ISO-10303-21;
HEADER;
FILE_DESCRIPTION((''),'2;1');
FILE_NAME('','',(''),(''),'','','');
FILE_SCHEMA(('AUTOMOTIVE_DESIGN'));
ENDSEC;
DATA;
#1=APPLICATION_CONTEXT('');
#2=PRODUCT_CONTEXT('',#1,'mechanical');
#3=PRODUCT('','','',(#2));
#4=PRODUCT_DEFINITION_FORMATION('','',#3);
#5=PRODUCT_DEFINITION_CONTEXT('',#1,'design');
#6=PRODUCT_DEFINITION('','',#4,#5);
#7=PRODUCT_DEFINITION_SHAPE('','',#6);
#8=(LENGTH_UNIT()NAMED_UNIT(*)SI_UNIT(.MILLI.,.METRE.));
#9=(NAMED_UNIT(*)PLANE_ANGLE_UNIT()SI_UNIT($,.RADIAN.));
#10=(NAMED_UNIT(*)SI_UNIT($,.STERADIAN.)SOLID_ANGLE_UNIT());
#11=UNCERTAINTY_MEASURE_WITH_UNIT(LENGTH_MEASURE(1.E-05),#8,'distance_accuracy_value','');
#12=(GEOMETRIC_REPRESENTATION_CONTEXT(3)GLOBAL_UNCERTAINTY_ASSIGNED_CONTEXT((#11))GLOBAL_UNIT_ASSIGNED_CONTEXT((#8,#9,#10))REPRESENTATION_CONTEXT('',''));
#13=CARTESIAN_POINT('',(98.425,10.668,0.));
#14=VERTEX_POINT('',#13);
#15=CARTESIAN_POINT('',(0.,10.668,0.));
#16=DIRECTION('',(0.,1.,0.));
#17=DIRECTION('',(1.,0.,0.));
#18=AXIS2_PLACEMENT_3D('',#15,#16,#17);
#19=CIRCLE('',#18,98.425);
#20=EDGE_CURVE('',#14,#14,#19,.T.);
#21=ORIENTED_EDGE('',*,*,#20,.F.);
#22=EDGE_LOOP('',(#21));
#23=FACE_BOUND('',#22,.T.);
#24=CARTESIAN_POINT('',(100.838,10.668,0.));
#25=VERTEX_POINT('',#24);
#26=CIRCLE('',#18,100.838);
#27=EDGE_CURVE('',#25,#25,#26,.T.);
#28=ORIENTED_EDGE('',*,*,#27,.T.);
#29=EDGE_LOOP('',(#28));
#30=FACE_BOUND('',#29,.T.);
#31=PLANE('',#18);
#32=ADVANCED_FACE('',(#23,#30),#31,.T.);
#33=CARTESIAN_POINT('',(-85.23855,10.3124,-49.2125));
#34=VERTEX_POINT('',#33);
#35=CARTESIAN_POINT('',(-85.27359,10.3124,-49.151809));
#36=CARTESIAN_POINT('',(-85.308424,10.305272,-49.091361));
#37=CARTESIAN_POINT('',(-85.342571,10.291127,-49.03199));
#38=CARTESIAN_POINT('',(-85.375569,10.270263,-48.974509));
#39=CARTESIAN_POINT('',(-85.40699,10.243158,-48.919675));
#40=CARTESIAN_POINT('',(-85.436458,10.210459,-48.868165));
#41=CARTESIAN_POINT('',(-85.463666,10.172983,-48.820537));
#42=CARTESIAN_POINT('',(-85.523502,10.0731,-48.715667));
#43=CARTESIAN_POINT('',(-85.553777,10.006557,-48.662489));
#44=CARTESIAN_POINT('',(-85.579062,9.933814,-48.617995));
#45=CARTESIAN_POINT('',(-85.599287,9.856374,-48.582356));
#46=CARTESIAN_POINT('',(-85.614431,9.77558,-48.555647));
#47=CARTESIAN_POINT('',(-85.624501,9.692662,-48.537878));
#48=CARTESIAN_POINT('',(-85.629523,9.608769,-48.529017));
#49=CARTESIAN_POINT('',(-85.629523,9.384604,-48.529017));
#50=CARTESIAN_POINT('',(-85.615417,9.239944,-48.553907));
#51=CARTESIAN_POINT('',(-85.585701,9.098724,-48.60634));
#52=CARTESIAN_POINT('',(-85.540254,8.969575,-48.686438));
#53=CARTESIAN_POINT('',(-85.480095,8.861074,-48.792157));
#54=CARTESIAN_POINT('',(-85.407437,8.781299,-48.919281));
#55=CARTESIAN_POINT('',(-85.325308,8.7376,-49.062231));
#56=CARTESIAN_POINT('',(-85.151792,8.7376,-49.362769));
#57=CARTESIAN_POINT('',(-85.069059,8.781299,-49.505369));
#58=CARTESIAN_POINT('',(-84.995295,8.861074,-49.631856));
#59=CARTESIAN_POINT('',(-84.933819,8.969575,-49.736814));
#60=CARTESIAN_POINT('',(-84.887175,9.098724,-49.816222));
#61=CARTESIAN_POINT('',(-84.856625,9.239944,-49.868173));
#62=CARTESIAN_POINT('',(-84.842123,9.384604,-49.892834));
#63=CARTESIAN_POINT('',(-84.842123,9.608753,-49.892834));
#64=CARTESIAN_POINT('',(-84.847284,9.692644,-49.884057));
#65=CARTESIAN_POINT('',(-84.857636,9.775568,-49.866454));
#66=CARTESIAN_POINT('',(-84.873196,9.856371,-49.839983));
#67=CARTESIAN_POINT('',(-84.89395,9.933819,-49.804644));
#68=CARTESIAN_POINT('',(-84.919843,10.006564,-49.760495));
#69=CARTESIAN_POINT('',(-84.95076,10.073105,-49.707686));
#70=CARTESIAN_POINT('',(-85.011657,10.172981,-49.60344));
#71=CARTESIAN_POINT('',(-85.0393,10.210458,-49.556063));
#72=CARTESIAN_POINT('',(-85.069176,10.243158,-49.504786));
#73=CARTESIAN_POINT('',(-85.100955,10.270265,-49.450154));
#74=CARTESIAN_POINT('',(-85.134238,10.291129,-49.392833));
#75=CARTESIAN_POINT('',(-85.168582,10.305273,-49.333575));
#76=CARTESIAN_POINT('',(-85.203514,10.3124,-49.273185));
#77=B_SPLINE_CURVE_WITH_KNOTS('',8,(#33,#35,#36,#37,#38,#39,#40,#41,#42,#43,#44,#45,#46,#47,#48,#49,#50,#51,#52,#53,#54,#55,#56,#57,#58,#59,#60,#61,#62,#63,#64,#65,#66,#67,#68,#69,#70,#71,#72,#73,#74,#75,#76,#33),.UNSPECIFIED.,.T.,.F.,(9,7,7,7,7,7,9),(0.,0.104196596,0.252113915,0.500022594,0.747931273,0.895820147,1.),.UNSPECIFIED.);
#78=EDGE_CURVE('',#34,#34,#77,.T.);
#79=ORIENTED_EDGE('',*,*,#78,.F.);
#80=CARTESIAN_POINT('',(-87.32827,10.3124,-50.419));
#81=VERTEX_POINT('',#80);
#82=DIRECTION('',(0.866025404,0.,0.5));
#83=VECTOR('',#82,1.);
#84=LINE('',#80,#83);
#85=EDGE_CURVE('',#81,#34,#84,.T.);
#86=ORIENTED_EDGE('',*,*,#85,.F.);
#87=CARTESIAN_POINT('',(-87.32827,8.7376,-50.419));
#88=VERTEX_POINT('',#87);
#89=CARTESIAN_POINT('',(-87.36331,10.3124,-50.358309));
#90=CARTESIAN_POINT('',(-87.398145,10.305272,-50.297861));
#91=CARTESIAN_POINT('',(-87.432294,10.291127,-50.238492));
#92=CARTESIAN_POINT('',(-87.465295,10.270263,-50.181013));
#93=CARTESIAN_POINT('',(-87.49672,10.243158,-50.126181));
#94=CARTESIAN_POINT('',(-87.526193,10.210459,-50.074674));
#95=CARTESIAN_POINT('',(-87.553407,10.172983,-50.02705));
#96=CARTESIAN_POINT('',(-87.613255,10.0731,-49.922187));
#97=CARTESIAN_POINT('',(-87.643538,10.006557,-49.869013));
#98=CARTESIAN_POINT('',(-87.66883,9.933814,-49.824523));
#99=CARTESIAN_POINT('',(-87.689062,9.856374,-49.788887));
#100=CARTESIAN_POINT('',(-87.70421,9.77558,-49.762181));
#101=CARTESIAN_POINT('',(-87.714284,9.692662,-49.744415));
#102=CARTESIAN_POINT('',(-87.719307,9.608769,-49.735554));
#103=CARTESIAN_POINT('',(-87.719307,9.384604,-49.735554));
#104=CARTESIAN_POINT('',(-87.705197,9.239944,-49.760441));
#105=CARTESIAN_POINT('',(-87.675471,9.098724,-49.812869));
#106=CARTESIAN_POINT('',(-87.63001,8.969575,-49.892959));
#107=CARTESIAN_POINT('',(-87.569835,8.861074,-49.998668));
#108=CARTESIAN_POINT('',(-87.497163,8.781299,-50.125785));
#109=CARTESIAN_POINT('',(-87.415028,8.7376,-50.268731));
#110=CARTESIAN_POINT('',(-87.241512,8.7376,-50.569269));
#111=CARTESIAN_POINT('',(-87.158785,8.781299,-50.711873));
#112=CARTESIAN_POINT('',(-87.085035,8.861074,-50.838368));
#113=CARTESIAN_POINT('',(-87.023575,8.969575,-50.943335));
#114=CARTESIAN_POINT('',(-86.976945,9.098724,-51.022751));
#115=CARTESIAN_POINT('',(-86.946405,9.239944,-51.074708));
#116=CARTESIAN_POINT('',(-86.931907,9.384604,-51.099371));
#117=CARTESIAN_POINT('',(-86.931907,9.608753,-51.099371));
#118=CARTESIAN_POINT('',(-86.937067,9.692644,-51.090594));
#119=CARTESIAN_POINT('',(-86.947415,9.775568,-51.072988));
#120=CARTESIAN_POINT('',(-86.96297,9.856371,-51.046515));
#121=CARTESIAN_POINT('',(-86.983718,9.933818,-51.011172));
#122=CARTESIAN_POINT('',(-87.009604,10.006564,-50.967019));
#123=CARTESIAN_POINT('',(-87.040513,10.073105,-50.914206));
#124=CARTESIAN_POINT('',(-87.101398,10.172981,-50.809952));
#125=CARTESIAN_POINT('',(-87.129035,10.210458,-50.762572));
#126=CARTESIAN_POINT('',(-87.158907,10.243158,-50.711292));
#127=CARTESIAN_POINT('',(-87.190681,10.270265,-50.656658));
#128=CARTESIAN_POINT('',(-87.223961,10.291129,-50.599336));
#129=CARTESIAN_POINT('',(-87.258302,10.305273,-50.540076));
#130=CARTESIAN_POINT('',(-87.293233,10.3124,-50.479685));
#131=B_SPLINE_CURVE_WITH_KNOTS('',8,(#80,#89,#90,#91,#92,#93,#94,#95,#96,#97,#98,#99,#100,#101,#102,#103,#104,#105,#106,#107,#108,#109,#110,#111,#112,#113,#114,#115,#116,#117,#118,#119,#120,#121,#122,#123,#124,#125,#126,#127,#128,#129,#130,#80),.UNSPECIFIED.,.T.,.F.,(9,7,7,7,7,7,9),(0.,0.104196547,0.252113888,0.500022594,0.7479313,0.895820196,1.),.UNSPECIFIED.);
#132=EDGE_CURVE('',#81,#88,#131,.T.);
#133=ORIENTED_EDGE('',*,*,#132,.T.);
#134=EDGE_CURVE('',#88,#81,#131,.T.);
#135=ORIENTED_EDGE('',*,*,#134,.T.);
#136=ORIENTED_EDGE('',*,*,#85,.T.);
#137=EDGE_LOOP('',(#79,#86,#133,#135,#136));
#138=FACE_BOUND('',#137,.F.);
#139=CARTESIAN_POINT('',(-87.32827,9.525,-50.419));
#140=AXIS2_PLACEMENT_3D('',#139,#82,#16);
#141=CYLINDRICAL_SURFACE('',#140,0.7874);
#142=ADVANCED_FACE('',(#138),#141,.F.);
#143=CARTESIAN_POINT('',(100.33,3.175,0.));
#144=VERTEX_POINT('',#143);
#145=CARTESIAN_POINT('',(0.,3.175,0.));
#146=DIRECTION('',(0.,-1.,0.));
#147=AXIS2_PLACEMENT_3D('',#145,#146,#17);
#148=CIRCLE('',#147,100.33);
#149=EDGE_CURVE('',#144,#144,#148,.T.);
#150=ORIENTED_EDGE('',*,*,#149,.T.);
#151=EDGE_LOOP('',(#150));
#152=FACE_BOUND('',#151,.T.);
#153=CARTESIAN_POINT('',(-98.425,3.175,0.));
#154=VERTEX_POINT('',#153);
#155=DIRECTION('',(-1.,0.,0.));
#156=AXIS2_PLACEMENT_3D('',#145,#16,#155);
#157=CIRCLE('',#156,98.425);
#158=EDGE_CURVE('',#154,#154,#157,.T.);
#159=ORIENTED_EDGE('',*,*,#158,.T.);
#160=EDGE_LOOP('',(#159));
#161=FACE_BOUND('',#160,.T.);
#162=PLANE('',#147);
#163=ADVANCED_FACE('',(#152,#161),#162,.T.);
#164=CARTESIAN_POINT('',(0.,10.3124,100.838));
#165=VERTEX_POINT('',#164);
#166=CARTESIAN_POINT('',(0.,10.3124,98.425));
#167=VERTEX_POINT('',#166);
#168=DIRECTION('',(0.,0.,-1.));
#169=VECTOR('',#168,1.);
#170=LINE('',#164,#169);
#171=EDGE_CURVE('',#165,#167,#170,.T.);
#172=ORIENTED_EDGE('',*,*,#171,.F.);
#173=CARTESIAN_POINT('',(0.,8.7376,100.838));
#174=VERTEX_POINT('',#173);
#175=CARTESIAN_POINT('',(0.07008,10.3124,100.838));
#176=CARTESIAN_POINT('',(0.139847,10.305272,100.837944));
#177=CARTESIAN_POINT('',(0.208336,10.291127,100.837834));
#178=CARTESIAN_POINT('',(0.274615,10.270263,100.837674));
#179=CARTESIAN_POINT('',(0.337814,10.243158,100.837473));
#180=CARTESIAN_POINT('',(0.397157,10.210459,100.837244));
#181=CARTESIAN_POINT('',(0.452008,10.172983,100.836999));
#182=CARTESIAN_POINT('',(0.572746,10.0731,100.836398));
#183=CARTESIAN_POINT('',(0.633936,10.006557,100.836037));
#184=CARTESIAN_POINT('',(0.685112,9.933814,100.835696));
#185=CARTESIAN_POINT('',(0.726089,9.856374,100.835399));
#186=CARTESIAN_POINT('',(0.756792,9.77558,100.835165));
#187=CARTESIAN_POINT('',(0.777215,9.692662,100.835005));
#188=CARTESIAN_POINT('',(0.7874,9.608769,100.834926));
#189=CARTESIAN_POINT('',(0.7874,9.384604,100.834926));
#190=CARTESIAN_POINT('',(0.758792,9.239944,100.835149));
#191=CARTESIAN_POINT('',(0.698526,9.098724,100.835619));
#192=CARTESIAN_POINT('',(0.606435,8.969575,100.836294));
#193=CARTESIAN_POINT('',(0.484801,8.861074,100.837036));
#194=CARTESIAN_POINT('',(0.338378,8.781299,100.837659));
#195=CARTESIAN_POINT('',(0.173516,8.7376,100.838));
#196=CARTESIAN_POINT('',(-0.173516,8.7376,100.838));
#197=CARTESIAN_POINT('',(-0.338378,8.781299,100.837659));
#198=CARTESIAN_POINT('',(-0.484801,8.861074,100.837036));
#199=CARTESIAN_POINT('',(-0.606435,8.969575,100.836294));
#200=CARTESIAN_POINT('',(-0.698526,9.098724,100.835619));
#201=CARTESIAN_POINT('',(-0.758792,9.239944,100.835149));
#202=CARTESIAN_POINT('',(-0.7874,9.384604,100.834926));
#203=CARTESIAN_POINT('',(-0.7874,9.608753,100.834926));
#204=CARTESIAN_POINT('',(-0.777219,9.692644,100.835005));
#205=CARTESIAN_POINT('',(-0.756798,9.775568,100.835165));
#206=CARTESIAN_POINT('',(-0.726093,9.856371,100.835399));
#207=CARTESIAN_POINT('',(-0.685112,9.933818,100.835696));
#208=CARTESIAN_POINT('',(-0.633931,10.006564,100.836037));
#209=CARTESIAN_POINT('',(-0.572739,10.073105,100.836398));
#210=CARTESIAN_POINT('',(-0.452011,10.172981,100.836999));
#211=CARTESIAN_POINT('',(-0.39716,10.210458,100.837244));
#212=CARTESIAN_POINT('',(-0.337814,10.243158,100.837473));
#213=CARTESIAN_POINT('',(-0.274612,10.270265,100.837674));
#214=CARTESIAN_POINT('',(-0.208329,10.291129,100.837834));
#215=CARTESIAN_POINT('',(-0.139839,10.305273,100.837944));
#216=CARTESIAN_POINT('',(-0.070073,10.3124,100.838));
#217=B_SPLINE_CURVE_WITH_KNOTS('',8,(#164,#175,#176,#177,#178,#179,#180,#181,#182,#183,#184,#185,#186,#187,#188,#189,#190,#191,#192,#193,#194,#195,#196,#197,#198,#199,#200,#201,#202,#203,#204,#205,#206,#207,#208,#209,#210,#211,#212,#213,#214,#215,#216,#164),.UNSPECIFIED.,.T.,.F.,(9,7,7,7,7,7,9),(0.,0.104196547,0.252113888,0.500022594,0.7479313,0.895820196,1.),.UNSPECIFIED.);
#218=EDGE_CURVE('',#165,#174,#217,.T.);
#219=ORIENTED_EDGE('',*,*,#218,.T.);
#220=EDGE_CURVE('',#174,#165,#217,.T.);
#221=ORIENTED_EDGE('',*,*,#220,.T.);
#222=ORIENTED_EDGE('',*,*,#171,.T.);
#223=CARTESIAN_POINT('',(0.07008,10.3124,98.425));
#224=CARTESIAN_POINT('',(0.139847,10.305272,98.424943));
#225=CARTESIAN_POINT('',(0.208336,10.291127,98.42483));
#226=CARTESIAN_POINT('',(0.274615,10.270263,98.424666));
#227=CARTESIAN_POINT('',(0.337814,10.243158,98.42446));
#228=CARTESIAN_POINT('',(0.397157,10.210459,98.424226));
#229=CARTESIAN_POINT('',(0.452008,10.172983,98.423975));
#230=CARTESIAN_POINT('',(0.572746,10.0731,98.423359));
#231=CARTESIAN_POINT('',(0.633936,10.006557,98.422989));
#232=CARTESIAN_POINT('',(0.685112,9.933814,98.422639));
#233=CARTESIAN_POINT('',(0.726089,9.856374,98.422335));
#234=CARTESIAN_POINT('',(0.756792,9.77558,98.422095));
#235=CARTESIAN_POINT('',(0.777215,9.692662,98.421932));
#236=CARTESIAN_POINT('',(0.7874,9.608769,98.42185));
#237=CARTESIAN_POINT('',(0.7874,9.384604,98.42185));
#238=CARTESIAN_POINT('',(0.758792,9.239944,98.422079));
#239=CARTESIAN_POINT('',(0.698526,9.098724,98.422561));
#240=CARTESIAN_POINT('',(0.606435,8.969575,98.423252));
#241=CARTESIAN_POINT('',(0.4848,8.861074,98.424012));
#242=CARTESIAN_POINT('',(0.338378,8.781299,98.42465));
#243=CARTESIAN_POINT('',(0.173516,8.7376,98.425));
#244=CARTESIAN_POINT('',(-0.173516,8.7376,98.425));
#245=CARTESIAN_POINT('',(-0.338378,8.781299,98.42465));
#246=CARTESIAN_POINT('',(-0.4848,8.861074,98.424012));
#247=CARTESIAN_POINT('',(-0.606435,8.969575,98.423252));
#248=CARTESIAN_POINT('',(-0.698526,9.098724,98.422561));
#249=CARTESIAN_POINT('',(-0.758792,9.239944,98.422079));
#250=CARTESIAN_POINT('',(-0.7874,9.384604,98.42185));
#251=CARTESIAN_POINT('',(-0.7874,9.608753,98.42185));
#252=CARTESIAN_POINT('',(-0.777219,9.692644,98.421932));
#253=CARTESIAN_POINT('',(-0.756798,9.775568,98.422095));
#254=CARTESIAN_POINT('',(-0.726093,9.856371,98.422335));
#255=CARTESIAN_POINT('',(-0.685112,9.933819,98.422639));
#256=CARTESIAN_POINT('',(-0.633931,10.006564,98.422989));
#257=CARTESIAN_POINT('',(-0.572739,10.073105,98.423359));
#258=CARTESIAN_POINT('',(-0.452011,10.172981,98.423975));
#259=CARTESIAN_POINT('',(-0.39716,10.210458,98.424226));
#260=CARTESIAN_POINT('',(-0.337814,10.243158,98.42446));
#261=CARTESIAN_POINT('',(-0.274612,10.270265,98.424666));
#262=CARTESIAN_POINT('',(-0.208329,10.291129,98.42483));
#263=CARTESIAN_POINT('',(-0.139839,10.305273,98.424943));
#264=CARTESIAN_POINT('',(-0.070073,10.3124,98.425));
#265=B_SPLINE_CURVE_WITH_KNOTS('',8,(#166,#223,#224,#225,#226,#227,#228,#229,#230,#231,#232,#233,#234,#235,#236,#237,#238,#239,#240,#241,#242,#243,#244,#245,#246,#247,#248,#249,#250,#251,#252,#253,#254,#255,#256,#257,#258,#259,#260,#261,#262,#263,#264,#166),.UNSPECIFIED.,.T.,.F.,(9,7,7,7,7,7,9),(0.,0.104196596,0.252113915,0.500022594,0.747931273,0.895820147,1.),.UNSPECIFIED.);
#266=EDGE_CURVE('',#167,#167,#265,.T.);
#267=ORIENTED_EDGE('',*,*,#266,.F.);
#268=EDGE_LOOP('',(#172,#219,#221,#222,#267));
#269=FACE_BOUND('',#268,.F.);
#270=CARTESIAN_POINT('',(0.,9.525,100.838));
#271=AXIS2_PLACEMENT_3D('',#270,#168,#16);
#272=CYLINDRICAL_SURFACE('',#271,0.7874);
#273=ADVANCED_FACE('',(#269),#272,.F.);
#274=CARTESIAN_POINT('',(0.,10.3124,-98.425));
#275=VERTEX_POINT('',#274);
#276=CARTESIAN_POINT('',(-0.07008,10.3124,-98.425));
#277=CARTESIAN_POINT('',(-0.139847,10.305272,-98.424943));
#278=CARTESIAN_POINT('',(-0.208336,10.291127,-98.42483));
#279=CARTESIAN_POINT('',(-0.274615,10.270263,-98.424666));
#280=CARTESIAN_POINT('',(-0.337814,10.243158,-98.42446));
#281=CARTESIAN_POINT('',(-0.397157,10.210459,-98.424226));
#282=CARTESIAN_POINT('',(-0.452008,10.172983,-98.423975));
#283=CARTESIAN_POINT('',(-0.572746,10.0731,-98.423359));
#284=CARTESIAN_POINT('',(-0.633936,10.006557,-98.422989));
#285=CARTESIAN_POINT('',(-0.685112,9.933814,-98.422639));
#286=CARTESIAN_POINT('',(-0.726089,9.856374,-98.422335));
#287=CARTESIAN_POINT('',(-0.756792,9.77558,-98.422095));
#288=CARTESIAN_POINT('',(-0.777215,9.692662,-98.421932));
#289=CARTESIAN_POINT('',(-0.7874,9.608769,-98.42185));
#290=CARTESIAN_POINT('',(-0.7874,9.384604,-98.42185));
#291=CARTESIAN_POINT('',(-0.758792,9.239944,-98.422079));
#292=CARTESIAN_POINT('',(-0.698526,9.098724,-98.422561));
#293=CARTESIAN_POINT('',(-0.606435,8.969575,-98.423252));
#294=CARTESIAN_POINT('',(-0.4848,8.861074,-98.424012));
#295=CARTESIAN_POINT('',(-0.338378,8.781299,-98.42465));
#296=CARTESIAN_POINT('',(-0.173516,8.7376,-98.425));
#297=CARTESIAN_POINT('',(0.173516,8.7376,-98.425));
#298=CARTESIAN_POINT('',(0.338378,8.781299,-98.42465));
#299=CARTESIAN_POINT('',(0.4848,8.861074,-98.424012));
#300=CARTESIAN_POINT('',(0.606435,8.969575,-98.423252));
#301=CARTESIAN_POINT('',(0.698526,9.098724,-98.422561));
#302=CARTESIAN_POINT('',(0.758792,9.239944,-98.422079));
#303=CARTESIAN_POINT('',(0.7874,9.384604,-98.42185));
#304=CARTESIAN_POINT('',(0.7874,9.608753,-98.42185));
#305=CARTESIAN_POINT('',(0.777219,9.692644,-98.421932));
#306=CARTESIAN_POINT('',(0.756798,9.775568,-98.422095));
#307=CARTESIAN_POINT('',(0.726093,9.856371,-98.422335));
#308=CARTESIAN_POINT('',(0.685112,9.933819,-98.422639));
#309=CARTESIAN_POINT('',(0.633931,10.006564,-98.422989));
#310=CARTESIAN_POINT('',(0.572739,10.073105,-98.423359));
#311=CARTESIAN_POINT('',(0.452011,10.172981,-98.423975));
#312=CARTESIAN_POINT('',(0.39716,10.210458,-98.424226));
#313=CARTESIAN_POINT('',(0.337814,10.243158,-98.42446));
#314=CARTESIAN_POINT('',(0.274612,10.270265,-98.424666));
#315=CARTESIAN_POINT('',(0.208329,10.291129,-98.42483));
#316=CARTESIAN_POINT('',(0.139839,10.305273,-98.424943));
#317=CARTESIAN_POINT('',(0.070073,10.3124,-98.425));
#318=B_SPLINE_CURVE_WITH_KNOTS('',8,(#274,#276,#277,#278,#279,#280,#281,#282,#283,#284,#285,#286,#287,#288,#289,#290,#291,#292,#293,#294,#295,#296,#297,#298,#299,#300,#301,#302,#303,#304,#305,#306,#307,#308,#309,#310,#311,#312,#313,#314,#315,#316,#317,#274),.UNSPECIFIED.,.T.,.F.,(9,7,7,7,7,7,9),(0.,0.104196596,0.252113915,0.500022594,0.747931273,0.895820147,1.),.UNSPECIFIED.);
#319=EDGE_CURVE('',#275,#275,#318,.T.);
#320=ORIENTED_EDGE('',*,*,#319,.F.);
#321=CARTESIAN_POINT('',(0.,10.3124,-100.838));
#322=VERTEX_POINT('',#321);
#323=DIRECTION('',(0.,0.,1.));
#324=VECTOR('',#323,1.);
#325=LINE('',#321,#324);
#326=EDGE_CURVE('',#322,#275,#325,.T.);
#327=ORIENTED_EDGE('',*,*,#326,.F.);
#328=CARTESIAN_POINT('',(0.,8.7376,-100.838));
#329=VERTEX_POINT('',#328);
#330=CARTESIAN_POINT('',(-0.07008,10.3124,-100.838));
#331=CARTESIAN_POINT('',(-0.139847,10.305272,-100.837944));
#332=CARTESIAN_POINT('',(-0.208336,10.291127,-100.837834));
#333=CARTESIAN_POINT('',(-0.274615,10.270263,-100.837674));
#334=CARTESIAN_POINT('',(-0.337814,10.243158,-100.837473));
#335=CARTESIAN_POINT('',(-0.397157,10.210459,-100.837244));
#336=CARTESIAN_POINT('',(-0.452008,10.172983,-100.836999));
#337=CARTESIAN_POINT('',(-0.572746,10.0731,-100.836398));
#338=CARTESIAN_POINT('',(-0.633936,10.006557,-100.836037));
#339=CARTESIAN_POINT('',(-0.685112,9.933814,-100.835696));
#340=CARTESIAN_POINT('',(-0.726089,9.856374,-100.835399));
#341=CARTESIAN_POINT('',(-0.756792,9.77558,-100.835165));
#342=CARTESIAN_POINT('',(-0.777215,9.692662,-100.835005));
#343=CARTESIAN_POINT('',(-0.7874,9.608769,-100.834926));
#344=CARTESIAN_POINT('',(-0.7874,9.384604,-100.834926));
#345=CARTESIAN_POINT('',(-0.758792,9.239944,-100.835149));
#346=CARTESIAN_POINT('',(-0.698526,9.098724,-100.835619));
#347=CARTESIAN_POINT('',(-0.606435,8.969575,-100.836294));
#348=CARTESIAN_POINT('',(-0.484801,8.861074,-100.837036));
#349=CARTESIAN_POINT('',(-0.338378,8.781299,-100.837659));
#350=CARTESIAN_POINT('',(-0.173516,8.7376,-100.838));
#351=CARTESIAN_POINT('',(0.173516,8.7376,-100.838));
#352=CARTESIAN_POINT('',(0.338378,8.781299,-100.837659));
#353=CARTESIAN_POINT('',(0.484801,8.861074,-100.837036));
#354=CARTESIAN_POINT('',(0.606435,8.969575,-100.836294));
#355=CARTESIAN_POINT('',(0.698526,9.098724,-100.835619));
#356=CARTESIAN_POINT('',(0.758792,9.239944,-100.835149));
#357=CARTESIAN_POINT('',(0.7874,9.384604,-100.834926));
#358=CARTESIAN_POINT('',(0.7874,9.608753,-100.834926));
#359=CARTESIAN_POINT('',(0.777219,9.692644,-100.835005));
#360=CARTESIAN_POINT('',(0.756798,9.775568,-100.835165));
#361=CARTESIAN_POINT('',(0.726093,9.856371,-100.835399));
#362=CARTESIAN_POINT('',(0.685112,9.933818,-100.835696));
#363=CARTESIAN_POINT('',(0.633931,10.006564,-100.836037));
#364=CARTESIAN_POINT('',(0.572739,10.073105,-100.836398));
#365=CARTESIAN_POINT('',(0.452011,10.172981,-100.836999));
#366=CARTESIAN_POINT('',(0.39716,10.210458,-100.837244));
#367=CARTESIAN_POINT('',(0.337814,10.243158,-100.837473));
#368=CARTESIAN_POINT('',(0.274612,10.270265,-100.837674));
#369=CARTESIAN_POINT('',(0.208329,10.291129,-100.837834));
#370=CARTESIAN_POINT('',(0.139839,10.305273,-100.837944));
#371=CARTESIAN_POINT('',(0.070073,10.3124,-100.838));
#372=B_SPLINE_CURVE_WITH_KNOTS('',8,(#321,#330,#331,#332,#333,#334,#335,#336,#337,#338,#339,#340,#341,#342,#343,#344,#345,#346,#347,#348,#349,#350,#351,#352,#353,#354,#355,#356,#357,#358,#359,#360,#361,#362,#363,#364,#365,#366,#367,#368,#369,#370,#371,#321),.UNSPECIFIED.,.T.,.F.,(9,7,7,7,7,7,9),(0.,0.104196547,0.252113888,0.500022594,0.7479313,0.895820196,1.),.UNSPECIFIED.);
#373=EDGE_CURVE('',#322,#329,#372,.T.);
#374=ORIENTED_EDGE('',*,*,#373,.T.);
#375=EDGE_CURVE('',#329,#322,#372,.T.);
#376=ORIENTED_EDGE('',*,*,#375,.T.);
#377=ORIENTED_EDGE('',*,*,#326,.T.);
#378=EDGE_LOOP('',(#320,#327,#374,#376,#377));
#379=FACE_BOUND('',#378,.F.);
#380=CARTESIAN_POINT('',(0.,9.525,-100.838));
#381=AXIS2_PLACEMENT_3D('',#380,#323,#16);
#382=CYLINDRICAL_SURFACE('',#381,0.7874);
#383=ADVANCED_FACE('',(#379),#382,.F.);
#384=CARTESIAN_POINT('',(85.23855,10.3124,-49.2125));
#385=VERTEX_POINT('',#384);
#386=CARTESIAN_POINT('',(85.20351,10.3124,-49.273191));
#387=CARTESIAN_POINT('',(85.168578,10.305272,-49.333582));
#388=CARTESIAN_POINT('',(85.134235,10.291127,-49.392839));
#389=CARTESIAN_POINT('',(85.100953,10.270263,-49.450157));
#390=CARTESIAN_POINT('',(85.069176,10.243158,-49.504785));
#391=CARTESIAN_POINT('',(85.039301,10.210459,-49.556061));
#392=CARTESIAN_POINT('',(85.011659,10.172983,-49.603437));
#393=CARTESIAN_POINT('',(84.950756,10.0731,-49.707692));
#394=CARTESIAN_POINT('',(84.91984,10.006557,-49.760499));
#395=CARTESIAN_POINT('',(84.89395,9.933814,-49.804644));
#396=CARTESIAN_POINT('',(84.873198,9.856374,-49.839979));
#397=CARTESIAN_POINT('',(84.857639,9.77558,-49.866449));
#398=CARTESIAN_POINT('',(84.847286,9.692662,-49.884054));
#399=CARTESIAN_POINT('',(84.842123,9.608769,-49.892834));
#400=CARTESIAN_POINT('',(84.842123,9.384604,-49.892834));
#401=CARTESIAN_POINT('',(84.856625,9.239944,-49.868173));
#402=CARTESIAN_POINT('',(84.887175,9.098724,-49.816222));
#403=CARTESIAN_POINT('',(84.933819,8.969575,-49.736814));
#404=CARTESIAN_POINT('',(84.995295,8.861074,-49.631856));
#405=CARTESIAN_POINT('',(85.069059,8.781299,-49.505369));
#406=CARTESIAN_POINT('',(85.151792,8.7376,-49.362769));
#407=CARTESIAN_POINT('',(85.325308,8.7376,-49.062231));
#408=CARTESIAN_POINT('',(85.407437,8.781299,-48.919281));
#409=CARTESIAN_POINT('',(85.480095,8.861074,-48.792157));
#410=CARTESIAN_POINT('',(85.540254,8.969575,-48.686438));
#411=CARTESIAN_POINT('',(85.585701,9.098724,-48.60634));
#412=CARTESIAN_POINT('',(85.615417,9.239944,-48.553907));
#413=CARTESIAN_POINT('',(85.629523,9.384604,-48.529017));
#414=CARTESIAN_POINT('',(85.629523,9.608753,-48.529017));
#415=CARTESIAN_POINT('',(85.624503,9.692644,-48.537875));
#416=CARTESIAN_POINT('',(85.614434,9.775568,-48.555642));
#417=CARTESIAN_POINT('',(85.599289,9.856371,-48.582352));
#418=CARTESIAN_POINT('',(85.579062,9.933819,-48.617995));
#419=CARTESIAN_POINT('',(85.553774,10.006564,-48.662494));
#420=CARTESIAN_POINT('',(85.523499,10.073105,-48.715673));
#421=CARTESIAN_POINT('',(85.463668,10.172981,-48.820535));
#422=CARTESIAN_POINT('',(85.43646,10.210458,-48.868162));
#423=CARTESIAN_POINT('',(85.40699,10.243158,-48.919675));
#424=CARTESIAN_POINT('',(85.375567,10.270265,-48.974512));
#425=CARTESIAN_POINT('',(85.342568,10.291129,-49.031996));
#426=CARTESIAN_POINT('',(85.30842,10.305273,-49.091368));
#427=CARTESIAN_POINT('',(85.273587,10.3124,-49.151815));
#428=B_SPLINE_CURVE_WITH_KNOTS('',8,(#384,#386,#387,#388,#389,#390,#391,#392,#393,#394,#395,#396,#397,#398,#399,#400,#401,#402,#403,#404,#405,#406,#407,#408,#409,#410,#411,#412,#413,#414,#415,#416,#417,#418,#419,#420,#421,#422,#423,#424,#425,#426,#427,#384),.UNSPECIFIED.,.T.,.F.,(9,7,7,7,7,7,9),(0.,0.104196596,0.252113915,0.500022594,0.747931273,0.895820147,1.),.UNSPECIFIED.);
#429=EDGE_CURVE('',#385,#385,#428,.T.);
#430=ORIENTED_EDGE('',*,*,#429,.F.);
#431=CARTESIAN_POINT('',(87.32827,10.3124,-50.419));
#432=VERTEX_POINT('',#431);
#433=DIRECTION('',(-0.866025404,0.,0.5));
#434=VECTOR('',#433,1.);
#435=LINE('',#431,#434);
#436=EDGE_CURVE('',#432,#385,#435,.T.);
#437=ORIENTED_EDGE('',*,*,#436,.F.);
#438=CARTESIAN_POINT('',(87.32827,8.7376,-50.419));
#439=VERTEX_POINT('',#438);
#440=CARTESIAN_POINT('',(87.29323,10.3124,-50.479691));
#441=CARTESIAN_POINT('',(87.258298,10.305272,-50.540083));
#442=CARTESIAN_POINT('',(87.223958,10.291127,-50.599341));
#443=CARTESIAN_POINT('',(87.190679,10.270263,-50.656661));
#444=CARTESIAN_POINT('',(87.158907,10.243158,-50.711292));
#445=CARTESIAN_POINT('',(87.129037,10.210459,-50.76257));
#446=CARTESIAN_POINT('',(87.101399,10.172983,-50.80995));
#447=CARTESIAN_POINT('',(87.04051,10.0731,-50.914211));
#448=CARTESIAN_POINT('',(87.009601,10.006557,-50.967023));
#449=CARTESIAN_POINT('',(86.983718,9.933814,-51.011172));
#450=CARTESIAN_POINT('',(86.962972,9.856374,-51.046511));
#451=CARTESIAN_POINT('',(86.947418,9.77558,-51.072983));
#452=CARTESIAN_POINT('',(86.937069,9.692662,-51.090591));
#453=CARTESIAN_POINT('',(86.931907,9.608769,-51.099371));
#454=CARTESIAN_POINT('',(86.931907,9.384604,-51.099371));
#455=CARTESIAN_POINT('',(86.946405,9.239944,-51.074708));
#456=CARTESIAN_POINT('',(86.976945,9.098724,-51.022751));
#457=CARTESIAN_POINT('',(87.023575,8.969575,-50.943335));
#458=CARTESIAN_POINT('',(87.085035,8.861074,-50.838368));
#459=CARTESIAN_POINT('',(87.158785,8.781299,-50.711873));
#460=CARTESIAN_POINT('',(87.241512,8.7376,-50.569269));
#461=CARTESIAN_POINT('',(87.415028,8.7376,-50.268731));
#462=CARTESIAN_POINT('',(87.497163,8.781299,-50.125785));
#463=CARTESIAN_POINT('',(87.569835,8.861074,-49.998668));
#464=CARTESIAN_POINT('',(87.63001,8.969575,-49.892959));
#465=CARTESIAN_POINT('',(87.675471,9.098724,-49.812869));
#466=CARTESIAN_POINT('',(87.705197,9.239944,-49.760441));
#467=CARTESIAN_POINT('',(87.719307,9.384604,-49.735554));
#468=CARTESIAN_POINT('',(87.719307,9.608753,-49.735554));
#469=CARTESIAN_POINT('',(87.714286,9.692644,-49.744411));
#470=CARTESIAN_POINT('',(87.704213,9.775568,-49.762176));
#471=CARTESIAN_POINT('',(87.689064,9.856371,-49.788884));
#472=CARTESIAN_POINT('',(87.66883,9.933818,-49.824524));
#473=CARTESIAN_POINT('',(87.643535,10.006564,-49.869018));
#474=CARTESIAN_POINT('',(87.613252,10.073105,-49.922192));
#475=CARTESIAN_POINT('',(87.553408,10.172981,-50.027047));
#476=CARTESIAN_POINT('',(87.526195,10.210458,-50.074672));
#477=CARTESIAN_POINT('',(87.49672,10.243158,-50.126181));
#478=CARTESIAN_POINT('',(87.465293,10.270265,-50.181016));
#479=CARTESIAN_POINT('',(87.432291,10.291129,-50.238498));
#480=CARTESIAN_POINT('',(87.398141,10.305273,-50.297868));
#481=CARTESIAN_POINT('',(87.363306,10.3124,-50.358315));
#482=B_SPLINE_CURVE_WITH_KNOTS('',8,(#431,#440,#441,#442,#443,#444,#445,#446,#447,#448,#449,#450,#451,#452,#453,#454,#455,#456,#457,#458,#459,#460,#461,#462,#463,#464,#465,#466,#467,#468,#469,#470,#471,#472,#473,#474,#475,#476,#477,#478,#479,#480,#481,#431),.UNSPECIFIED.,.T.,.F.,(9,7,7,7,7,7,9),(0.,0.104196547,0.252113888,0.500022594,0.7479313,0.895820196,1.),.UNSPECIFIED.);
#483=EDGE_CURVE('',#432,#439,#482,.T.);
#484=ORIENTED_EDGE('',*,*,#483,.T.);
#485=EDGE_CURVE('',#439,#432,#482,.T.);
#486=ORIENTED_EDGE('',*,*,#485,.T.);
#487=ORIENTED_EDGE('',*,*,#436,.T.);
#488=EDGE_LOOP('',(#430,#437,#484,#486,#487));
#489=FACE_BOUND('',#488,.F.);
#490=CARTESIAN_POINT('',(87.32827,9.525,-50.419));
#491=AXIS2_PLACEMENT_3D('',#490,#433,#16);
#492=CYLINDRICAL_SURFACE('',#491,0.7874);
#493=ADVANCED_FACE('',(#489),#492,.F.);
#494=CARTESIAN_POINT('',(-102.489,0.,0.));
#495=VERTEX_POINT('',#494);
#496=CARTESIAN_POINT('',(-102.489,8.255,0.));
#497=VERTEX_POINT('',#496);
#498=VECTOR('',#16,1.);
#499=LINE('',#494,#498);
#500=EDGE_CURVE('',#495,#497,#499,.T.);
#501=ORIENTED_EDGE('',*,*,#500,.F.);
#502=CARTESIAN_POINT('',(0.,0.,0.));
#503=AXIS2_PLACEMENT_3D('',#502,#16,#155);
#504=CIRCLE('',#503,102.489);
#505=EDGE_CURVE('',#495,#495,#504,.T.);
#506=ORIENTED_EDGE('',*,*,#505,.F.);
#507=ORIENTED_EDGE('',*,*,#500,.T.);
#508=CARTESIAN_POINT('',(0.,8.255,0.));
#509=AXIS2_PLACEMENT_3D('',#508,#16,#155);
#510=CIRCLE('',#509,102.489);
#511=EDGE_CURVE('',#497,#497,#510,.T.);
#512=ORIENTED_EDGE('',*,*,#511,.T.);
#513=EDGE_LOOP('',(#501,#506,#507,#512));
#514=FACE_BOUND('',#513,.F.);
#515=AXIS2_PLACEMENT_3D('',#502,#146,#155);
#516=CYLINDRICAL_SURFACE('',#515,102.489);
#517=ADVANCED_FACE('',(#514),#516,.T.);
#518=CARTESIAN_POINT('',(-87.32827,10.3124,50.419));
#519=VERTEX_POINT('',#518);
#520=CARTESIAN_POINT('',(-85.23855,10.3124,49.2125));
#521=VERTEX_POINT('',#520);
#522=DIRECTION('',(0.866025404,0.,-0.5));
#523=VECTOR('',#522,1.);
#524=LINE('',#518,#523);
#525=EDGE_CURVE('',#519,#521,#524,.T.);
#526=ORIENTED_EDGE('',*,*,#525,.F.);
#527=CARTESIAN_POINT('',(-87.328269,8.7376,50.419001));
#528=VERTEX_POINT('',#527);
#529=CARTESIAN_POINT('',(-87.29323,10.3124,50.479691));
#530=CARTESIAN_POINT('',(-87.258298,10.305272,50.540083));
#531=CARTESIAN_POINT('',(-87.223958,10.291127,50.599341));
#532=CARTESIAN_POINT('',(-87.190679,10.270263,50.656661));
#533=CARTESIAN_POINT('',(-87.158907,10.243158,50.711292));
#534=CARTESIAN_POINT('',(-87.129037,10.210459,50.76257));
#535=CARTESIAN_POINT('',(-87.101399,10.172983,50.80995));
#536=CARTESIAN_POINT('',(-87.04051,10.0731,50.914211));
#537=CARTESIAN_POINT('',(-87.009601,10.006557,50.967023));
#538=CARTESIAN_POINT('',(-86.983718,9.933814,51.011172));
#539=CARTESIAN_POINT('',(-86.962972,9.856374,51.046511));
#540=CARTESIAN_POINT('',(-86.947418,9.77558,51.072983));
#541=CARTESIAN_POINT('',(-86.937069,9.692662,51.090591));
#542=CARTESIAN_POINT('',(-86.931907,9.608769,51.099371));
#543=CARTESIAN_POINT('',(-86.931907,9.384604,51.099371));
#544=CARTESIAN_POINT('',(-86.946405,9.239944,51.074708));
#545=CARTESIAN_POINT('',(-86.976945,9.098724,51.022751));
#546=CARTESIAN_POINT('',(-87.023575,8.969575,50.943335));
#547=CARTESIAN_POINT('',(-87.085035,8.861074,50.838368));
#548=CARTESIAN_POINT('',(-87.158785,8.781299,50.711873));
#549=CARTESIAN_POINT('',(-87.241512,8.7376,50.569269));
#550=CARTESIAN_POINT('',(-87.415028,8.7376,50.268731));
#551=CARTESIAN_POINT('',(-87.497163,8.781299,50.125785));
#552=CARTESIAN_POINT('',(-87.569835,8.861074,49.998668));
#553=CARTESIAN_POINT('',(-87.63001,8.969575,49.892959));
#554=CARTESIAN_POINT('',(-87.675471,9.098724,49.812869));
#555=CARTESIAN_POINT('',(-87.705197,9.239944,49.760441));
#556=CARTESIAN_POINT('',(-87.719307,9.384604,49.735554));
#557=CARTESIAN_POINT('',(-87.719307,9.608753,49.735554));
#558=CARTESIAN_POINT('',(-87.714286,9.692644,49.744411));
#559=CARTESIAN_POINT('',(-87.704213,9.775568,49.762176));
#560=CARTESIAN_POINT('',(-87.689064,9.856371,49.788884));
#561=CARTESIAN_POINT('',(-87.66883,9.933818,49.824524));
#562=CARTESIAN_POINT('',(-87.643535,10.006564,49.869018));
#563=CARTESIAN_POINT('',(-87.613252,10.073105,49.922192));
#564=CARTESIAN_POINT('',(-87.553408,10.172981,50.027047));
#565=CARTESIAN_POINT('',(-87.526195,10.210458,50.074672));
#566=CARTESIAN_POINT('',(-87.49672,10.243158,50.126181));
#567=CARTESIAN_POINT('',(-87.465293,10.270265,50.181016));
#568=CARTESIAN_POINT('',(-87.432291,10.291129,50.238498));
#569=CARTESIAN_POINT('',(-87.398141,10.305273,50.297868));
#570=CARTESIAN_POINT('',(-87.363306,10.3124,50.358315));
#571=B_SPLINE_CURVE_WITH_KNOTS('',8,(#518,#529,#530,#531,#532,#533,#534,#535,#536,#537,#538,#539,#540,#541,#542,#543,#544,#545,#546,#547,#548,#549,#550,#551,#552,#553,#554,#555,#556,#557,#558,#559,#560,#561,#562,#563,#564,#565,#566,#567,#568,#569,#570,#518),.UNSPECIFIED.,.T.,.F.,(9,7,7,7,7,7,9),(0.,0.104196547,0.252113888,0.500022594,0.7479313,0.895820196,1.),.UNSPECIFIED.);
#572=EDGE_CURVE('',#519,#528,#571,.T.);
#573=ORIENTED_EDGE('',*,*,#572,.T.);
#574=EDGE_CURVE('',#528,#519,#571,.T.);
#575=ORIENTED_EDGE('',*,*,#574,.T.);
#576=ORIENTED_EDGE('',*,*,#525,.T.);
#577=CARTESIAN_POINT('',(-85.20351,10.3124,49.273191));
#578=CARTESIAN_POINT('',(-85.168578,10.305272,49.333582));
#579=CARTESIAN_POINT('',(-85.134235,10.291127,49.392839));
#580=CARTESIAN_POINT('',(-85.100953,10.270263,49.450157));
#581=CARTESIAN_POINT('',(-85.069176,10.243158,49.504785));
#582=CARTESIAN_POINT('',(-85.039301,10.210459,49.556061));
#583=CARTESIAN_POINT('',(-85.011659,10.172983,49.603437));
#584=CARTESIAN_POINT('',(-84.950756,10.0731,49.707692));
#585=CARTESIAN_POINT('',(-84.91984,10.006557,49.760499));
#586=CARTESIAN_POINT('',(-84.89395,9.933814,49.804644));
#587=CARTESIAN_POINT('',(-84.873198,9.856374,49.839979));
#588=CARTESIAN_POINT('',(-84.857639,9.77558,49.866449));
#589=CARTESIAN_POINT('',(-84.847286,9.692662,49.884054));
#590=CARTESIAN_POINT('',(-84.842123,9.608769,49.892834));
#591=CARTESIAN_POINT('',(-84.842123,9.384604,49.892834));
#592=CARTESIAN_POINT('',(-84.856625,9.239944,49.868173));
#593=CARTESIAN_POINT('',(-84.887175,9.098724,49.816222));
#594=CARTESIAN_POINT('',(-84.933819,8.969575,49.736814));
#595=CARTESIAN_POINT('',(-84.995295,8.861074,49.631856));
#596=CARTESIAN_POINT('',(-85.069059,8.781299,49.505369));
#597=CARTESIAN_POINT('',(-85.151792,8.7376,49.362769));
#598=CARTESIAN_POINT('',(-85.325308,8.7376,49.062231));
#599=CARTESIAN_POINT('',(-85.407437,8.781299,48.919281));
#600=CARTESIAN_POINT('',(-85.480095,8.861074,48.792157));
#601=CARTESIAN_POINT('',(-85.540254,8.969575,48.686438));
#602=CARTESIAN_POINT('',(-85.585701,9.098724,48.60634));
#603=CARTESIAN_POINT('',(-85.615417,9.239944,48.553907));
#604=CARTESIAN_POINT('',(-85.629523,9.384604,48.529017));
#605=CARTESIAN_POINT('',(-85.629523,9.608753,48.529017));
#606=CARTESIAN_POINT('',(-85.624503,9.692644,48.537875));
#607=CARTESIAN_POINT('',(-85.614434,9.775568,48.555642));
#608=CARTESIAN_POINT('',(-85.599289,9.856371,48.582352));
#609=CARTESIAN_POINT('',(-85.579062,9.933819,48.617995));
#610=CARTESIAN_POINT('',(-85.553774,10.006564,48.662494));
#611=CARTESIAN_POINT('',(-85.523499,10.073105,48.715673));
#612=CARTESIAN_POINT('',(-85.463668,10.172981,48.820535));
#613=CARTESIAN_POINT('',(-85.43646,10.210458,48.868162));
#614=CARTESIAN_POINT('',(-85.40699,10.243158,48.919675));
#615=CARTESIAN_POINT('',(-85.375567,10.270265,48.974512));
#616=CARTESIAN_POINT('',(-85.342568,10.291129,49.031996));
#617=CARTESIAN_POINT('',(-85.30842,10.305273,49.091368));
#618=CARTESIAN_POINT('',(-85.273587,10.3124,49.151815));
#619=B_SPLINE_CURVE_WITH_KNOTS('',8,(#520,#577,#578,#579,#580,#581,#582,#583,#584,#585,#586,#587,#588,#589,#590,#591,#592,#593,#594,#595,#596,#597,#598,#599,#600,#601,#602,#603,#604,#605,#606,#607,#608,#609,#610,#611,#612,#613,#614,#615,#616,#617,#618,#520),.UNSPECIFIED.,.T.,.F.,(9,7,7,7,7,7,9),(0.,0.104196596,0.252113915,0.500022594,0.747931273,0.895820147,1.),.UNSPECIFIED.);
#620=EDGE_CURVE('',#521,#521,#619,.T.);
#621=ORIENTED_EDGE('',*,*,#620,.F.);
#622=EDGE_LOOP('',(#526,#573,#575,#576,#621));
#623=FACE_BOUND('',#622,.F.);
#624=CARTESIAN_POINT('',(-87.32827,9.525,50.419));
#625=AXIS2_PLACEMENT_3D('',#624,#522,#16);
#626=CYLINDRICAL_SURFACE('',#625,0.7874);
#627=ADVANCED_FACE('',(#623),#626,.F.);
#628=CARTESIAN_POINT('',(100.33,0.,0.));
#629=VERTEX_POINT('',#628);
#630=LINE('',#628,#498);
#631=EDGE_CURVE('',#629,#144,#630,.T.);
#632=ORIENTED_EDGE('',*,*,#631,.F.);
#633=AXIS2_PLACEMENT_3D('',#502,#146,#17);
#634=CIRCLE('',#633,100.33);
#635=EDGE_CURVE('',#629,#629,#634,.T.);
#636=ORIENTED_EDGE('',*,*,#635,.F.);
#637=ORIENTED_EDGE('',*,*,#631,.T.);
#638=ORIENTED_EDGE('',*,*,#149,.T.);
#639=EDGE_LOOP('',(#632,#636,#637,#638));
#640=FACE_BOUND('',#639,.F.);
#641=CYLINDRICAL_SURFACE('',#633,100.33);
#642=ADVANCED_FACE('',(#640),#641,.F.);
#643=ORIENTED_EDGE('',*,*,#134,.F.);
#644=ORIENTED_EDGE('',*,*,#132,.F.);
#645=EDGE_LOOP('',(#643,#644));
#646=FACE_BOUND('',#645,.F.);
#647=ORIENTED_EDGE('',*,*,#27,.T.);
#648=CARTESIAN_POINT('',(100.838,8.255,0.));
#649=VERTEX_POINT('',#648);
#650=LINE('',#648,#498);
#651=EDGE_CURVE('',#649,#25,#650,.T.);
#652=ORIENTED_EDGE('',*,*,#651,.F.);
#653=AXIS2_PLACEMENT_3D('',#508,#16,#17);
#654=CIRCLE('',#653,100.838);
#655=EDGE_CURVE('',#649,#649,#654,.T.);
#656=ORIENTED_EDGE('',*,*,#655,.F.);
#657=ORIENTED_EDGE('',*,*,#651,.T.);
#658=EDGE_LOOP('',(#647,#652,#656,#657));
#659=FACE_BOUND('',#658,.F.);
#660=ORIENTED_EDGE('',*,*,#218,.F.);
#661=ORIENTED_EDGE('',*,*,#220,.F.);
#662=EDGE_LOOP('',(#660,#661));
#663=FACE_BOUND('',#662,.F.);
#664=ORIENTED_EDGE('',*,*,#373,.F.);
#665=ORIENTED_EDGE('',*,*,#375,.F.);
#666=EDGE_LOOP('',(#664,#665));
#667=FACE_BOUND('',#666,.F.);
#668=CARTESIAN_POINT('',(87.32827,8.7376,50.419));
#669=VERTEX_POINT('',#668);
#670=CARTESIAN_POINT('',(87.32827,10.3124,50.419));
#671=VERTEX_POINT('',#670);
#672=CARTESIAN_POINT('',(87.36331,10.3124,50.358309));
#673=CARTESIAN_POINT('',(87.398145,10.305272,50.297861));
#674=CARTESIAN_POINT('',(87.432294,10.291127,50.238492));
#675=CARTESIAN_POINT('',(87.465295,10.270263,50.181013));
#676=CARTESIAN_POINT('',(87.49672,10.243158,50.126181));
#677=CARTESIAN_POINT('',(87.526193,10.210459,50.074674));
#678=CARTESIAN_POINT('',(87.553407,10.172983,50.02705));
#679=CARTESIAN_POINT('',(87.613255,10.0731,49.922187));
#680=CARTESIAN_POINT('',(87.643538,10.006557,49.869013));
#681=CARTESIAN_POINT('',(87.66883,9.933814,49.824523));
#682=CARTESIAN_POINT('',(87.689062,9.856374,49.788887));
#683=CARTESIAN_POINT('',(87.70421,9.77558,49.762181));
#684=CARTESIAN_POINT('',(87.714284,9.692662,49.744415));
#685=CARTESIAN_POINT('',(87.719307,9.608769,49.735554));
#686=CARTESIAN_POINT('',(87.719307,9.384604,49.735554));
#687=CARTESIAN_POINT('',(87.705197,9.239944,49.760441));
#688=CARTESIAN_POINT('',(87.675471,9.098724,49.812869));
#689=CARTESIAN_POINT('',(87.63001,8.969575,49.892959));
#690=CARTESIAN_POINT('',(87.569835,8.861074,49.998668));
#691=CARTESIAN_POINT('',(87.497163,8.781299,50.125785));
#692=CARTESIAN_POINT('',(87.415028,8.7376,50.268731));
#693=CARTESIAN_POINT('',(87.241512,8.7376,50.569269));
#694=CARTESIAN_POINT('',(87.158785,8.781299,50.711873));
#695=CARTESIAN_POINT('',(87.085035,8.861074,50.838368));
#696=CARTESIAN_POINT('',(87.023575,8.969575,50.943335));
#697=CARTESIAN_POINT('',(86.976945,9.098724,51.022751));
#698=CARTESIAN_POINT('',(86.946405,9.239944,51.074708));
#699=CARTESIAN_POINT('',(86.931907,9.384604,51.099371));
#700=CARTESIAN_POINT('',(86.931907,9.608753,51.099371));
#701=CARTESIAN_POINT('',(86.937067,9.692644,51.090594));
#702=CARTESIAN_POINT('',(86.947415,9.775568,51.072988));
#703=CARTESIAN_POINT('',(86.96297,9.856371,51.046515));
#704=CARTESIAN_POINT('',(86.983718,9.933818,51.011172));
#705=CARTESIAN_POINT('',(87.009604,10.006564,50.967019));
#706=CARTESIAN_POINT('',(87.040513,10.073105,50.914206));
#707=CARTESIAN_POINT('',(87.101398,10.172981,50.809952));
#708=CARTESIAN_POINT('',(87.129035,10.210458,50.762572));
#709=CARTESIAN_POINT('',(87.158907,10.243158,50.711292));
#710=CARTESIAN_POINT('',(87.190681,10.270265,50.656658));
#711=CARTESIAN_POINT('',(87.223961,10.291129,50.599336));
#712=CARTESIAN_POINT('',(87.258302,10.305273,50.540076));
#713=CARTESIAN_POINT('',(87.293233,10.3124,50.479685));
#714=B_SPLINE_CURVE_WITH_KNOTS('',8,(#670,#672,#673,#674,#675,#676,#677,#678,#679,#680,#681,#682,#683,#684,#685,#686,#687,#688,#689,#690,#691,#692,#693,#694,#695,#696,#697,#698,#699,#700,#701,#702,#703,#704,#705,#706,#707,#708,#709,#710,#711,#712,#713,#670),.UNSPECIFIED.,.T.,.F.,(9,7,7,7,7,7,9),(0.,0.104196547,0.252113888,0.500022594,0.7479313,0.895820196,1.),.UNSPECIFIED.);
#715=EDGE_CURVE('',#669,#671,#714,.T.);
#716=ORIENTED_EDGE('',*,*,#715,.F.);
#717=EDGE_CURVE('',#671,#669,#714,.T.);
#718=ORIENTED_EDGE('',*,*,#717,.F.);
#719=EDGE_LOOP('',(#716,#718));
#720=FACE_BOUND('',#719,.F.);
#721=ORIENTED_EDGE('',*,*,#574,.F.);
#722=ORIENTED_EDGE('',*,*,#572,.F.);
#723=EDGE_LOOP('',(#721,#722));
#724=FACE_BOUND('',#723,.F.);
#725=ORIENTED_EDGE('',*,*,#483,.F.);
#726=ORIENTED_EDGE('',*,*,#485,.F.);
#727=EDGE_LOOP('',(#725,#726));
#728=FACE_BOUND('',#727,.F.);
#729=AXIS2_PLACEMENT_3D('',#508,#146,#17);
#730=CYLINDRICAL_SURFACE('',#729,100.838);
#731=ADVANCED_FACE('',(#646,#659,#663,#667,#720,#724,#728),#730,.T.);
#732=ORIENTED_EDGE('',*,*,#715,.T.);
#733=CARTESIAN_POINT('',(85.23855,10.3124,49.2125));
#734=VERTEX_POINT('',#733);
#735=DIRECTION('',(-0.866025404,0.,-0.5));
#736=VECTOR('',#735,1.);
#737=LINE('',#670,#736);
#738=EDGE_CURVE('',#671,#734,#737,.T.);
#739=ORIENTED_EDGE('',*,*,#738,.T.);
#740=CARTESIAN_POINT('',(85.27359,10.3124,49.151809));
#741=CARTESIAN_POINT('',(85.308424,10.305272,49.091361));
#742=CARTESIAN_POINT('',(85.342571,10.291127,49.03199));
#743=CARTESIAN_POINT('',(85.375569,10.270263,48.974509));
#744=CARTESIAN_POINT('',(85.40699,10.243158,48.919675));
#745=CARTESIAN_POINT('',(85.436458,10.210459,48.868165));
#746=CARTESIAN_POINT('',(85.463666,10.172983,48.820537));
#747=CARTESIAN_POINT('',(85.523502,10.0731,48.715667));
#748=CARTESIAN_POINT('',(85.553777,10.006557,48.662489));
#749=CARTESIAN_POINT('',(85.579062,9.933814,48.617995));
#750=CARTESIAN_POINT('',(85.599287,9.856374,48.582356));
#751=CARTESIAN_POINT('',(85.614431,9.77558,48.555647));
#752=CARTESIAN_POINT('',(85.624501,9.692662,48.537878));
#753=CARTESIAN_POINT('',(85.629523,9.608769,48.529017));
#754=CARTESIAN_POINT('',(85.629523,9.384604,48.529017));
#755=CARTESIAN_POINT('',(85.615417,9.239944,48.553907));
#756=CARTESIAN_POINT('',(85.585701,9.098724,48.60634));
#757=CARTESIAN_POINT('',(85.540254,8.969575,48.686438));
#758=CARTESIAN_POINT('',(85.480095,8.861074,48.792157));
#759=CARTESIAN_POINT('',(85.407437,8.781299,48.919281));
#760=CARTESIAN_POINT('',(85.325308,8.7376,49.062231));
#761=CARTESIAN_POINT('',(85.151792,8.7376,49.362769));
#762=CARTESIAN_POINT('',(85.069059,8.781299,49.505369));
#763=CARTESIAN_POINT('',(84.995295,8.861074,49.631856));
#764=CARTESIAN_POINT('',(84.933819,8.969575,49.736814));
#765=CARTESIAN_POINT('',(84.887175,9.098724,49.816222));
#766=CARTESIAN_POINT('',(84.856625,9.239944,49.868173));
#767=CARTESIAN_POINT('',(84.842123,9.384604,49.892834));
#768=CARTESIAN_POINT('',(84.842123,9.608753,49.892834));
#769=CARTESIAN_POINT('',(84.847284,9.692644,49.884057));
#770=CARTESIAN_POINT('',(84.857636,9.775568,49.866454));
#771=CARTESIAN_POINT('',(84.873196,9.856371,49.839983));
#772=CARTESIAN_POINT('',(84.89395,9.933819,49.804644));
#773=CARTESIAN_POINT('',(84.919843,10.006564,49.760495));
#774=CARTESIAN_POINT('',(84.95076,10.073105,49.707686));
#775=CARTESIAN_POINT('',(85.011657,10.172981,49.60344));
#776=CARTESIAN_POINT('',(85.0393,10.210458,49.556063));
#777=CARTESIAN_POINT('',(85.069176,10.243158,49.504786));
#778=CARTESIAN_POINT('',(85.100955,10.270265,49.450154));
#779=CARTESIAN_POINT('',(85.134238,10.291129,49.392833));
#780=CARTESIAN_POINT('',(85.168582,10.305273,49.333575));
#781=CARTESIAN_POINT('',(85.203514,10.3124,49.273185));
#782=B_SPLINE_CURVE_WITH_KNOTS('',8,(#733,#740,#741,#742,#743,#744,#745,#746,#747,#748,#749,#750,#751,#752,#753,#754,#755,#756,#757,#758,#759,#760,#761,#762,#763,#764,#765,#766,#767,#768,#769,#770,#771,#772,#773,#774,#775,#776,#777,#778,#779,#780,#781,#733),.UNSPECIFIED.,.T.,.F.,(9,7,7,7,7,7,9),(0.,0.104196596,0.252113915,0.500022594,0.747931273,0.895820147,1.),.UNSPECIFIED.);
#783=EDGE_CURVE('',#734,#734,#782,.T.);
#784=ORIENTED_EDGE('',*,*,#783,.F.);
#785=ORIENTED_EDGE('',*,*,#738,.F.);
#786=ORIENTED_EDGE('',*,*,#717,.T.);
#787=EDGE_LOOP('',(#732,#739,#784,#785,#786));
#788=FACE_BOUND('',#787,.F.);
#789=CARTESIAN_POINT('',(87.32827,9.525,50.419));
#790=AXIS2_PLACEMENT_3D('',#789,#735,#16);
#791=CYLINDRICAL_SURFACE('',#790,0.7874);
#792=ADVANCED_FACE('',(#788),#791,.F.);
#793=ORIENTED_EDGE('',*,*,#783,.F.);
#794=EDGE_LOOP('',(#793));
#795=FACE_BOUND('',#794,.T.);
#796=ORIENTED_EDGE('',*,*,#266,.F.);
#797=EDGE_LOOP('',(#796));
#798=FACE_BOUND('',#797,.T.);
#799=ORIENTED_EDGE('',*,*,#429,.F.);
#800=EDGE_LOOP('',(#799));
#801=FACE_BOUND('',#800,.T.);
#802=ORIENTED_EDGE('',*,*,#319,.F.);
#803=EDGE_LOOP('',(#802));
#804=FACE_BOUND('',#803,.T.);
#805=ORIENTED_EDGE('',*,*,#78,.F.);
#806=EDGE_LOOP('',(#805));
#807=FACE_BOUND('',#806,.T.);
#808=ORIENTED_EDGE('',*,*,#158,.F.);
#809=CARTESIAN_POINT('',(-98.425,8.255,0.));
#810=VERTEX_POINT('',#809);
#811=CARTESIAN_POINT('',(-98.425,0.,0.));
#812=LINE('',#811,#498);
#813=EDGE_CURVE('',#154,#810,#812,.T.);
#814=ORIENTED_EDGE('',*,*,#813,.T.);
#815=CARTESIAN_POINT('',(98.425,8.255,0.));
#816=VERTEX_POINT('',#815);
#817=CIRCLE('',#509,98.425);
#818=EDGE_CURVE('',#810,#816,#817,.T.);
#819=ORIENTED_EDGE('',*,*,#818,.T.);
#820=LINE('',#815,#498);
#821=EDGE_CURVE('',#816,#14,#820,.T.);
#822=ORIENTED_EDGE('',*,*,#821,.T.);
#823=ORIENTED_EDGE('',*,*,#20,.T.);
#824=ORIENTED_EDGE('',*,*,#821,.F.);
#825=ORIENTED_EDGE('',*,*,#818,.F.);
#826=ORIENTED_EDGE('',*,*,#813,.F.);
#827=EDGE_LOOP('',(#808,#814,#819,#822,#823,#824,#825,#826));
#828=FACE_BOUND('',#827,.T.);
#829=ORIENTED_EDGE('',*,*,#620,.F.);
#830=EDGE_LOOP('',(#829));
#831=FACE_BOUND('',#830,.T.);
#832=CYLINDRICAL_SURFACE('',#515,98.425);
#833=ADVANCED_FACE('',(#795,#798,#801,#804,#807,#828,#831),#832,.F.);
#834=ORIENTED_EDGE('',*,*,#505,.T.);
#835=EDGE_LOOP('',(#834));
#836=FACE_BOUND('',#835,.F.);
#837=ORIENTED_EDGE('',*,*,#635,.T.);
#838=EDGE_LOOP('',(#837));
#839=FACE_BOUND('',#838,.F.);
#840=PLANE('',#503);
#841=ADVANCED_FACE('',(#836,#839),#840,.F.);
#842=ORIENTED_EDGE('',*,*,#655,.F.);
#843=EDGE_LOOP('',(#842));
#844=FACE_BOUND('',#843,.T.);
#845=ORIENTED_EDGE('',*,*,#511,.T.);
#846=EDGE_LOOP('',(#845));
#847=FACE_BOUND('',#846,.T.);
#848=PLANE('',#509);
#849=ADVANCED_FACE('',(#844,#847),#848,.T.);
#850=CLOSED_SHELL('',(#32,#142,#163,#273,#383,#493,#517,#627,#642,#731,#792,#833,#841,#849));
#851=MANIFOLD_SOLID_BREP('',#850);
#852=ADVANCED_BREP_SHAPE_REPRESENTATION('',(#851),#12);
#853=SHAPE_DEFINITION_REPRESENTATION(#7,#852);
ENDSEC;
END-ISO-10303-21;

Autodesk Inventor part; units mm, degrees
ref_plane "YZ Plane" through (0, 0, 0) normal (1, 0, 0) x (0, 1, 0)
ref_plane "XZ Plane" through (0, 0, 0) normal (0, 1, 0) x (-1, 0, 0)
sketch "Sketch1" plane through (0, 0, 0) normal (0, 1, 0) x (-1, 0, 0)
  circle A0 centre (0, 0) radius 98.425
  circle A1 centre (0, 0) radius 102.489
  dimension "d0" = 196.85
  dimension "d1" = 4.064
extrude "Extrusion1" add sketch "Sketch1" along normal blind 8.255
sketch "Sketch2" plane through (0, 8.255, 0) normal (0, 1, 0) x (1, 0, 0)
  circle A0 centre (0, 0) radius 98.425
  circle A1 centre (0, 0) radius 98.425 projected
  circle A2 centre (0, 0) radius 100.838
  dimension "d4" = 2.413
extrude "Extrusion2" add sketch "Sketch2" along normal blind 2.413
ref_plane "Work Plane1" through (0, 8.255, -100.838) normal (0, 0, 1) x (1, 0, 0)
sketch "Sketch3" plane through (0, 8.255, -100.838) normal (0, 0, 1) x (1, 0, 0)
  line L0 (102.489, 0) -> (-102.489, 0) construction
  line L1 (0, 0) -> (0, 1.27) construction
  point P0 (0, -8.255)
  dimension "d7" = 1.27
hole "Hole1" at (0, 9.525, -100.838) direction (0, 0, 1) diameter 1.5748 depth 6.2992 tip angle 118
pattern_circular "Circular Pattern1" count 6 over 360 about axis through (0, 0, 0) along (0, 1, 0) of "Hole1"
sketch "Sketch4" plane through (0, 0, 0) normal (0, -1, 0) x (1, 0, 0)
  circle A0 centre (0, 0) radius 100.33
  dimension "d18" = 200.66
extrude "Extrusion3" cut sketch "Sketch4" against normal blind 3.175
properties part number "4K sheild rim3" material "Brass, Soft Yellow"
